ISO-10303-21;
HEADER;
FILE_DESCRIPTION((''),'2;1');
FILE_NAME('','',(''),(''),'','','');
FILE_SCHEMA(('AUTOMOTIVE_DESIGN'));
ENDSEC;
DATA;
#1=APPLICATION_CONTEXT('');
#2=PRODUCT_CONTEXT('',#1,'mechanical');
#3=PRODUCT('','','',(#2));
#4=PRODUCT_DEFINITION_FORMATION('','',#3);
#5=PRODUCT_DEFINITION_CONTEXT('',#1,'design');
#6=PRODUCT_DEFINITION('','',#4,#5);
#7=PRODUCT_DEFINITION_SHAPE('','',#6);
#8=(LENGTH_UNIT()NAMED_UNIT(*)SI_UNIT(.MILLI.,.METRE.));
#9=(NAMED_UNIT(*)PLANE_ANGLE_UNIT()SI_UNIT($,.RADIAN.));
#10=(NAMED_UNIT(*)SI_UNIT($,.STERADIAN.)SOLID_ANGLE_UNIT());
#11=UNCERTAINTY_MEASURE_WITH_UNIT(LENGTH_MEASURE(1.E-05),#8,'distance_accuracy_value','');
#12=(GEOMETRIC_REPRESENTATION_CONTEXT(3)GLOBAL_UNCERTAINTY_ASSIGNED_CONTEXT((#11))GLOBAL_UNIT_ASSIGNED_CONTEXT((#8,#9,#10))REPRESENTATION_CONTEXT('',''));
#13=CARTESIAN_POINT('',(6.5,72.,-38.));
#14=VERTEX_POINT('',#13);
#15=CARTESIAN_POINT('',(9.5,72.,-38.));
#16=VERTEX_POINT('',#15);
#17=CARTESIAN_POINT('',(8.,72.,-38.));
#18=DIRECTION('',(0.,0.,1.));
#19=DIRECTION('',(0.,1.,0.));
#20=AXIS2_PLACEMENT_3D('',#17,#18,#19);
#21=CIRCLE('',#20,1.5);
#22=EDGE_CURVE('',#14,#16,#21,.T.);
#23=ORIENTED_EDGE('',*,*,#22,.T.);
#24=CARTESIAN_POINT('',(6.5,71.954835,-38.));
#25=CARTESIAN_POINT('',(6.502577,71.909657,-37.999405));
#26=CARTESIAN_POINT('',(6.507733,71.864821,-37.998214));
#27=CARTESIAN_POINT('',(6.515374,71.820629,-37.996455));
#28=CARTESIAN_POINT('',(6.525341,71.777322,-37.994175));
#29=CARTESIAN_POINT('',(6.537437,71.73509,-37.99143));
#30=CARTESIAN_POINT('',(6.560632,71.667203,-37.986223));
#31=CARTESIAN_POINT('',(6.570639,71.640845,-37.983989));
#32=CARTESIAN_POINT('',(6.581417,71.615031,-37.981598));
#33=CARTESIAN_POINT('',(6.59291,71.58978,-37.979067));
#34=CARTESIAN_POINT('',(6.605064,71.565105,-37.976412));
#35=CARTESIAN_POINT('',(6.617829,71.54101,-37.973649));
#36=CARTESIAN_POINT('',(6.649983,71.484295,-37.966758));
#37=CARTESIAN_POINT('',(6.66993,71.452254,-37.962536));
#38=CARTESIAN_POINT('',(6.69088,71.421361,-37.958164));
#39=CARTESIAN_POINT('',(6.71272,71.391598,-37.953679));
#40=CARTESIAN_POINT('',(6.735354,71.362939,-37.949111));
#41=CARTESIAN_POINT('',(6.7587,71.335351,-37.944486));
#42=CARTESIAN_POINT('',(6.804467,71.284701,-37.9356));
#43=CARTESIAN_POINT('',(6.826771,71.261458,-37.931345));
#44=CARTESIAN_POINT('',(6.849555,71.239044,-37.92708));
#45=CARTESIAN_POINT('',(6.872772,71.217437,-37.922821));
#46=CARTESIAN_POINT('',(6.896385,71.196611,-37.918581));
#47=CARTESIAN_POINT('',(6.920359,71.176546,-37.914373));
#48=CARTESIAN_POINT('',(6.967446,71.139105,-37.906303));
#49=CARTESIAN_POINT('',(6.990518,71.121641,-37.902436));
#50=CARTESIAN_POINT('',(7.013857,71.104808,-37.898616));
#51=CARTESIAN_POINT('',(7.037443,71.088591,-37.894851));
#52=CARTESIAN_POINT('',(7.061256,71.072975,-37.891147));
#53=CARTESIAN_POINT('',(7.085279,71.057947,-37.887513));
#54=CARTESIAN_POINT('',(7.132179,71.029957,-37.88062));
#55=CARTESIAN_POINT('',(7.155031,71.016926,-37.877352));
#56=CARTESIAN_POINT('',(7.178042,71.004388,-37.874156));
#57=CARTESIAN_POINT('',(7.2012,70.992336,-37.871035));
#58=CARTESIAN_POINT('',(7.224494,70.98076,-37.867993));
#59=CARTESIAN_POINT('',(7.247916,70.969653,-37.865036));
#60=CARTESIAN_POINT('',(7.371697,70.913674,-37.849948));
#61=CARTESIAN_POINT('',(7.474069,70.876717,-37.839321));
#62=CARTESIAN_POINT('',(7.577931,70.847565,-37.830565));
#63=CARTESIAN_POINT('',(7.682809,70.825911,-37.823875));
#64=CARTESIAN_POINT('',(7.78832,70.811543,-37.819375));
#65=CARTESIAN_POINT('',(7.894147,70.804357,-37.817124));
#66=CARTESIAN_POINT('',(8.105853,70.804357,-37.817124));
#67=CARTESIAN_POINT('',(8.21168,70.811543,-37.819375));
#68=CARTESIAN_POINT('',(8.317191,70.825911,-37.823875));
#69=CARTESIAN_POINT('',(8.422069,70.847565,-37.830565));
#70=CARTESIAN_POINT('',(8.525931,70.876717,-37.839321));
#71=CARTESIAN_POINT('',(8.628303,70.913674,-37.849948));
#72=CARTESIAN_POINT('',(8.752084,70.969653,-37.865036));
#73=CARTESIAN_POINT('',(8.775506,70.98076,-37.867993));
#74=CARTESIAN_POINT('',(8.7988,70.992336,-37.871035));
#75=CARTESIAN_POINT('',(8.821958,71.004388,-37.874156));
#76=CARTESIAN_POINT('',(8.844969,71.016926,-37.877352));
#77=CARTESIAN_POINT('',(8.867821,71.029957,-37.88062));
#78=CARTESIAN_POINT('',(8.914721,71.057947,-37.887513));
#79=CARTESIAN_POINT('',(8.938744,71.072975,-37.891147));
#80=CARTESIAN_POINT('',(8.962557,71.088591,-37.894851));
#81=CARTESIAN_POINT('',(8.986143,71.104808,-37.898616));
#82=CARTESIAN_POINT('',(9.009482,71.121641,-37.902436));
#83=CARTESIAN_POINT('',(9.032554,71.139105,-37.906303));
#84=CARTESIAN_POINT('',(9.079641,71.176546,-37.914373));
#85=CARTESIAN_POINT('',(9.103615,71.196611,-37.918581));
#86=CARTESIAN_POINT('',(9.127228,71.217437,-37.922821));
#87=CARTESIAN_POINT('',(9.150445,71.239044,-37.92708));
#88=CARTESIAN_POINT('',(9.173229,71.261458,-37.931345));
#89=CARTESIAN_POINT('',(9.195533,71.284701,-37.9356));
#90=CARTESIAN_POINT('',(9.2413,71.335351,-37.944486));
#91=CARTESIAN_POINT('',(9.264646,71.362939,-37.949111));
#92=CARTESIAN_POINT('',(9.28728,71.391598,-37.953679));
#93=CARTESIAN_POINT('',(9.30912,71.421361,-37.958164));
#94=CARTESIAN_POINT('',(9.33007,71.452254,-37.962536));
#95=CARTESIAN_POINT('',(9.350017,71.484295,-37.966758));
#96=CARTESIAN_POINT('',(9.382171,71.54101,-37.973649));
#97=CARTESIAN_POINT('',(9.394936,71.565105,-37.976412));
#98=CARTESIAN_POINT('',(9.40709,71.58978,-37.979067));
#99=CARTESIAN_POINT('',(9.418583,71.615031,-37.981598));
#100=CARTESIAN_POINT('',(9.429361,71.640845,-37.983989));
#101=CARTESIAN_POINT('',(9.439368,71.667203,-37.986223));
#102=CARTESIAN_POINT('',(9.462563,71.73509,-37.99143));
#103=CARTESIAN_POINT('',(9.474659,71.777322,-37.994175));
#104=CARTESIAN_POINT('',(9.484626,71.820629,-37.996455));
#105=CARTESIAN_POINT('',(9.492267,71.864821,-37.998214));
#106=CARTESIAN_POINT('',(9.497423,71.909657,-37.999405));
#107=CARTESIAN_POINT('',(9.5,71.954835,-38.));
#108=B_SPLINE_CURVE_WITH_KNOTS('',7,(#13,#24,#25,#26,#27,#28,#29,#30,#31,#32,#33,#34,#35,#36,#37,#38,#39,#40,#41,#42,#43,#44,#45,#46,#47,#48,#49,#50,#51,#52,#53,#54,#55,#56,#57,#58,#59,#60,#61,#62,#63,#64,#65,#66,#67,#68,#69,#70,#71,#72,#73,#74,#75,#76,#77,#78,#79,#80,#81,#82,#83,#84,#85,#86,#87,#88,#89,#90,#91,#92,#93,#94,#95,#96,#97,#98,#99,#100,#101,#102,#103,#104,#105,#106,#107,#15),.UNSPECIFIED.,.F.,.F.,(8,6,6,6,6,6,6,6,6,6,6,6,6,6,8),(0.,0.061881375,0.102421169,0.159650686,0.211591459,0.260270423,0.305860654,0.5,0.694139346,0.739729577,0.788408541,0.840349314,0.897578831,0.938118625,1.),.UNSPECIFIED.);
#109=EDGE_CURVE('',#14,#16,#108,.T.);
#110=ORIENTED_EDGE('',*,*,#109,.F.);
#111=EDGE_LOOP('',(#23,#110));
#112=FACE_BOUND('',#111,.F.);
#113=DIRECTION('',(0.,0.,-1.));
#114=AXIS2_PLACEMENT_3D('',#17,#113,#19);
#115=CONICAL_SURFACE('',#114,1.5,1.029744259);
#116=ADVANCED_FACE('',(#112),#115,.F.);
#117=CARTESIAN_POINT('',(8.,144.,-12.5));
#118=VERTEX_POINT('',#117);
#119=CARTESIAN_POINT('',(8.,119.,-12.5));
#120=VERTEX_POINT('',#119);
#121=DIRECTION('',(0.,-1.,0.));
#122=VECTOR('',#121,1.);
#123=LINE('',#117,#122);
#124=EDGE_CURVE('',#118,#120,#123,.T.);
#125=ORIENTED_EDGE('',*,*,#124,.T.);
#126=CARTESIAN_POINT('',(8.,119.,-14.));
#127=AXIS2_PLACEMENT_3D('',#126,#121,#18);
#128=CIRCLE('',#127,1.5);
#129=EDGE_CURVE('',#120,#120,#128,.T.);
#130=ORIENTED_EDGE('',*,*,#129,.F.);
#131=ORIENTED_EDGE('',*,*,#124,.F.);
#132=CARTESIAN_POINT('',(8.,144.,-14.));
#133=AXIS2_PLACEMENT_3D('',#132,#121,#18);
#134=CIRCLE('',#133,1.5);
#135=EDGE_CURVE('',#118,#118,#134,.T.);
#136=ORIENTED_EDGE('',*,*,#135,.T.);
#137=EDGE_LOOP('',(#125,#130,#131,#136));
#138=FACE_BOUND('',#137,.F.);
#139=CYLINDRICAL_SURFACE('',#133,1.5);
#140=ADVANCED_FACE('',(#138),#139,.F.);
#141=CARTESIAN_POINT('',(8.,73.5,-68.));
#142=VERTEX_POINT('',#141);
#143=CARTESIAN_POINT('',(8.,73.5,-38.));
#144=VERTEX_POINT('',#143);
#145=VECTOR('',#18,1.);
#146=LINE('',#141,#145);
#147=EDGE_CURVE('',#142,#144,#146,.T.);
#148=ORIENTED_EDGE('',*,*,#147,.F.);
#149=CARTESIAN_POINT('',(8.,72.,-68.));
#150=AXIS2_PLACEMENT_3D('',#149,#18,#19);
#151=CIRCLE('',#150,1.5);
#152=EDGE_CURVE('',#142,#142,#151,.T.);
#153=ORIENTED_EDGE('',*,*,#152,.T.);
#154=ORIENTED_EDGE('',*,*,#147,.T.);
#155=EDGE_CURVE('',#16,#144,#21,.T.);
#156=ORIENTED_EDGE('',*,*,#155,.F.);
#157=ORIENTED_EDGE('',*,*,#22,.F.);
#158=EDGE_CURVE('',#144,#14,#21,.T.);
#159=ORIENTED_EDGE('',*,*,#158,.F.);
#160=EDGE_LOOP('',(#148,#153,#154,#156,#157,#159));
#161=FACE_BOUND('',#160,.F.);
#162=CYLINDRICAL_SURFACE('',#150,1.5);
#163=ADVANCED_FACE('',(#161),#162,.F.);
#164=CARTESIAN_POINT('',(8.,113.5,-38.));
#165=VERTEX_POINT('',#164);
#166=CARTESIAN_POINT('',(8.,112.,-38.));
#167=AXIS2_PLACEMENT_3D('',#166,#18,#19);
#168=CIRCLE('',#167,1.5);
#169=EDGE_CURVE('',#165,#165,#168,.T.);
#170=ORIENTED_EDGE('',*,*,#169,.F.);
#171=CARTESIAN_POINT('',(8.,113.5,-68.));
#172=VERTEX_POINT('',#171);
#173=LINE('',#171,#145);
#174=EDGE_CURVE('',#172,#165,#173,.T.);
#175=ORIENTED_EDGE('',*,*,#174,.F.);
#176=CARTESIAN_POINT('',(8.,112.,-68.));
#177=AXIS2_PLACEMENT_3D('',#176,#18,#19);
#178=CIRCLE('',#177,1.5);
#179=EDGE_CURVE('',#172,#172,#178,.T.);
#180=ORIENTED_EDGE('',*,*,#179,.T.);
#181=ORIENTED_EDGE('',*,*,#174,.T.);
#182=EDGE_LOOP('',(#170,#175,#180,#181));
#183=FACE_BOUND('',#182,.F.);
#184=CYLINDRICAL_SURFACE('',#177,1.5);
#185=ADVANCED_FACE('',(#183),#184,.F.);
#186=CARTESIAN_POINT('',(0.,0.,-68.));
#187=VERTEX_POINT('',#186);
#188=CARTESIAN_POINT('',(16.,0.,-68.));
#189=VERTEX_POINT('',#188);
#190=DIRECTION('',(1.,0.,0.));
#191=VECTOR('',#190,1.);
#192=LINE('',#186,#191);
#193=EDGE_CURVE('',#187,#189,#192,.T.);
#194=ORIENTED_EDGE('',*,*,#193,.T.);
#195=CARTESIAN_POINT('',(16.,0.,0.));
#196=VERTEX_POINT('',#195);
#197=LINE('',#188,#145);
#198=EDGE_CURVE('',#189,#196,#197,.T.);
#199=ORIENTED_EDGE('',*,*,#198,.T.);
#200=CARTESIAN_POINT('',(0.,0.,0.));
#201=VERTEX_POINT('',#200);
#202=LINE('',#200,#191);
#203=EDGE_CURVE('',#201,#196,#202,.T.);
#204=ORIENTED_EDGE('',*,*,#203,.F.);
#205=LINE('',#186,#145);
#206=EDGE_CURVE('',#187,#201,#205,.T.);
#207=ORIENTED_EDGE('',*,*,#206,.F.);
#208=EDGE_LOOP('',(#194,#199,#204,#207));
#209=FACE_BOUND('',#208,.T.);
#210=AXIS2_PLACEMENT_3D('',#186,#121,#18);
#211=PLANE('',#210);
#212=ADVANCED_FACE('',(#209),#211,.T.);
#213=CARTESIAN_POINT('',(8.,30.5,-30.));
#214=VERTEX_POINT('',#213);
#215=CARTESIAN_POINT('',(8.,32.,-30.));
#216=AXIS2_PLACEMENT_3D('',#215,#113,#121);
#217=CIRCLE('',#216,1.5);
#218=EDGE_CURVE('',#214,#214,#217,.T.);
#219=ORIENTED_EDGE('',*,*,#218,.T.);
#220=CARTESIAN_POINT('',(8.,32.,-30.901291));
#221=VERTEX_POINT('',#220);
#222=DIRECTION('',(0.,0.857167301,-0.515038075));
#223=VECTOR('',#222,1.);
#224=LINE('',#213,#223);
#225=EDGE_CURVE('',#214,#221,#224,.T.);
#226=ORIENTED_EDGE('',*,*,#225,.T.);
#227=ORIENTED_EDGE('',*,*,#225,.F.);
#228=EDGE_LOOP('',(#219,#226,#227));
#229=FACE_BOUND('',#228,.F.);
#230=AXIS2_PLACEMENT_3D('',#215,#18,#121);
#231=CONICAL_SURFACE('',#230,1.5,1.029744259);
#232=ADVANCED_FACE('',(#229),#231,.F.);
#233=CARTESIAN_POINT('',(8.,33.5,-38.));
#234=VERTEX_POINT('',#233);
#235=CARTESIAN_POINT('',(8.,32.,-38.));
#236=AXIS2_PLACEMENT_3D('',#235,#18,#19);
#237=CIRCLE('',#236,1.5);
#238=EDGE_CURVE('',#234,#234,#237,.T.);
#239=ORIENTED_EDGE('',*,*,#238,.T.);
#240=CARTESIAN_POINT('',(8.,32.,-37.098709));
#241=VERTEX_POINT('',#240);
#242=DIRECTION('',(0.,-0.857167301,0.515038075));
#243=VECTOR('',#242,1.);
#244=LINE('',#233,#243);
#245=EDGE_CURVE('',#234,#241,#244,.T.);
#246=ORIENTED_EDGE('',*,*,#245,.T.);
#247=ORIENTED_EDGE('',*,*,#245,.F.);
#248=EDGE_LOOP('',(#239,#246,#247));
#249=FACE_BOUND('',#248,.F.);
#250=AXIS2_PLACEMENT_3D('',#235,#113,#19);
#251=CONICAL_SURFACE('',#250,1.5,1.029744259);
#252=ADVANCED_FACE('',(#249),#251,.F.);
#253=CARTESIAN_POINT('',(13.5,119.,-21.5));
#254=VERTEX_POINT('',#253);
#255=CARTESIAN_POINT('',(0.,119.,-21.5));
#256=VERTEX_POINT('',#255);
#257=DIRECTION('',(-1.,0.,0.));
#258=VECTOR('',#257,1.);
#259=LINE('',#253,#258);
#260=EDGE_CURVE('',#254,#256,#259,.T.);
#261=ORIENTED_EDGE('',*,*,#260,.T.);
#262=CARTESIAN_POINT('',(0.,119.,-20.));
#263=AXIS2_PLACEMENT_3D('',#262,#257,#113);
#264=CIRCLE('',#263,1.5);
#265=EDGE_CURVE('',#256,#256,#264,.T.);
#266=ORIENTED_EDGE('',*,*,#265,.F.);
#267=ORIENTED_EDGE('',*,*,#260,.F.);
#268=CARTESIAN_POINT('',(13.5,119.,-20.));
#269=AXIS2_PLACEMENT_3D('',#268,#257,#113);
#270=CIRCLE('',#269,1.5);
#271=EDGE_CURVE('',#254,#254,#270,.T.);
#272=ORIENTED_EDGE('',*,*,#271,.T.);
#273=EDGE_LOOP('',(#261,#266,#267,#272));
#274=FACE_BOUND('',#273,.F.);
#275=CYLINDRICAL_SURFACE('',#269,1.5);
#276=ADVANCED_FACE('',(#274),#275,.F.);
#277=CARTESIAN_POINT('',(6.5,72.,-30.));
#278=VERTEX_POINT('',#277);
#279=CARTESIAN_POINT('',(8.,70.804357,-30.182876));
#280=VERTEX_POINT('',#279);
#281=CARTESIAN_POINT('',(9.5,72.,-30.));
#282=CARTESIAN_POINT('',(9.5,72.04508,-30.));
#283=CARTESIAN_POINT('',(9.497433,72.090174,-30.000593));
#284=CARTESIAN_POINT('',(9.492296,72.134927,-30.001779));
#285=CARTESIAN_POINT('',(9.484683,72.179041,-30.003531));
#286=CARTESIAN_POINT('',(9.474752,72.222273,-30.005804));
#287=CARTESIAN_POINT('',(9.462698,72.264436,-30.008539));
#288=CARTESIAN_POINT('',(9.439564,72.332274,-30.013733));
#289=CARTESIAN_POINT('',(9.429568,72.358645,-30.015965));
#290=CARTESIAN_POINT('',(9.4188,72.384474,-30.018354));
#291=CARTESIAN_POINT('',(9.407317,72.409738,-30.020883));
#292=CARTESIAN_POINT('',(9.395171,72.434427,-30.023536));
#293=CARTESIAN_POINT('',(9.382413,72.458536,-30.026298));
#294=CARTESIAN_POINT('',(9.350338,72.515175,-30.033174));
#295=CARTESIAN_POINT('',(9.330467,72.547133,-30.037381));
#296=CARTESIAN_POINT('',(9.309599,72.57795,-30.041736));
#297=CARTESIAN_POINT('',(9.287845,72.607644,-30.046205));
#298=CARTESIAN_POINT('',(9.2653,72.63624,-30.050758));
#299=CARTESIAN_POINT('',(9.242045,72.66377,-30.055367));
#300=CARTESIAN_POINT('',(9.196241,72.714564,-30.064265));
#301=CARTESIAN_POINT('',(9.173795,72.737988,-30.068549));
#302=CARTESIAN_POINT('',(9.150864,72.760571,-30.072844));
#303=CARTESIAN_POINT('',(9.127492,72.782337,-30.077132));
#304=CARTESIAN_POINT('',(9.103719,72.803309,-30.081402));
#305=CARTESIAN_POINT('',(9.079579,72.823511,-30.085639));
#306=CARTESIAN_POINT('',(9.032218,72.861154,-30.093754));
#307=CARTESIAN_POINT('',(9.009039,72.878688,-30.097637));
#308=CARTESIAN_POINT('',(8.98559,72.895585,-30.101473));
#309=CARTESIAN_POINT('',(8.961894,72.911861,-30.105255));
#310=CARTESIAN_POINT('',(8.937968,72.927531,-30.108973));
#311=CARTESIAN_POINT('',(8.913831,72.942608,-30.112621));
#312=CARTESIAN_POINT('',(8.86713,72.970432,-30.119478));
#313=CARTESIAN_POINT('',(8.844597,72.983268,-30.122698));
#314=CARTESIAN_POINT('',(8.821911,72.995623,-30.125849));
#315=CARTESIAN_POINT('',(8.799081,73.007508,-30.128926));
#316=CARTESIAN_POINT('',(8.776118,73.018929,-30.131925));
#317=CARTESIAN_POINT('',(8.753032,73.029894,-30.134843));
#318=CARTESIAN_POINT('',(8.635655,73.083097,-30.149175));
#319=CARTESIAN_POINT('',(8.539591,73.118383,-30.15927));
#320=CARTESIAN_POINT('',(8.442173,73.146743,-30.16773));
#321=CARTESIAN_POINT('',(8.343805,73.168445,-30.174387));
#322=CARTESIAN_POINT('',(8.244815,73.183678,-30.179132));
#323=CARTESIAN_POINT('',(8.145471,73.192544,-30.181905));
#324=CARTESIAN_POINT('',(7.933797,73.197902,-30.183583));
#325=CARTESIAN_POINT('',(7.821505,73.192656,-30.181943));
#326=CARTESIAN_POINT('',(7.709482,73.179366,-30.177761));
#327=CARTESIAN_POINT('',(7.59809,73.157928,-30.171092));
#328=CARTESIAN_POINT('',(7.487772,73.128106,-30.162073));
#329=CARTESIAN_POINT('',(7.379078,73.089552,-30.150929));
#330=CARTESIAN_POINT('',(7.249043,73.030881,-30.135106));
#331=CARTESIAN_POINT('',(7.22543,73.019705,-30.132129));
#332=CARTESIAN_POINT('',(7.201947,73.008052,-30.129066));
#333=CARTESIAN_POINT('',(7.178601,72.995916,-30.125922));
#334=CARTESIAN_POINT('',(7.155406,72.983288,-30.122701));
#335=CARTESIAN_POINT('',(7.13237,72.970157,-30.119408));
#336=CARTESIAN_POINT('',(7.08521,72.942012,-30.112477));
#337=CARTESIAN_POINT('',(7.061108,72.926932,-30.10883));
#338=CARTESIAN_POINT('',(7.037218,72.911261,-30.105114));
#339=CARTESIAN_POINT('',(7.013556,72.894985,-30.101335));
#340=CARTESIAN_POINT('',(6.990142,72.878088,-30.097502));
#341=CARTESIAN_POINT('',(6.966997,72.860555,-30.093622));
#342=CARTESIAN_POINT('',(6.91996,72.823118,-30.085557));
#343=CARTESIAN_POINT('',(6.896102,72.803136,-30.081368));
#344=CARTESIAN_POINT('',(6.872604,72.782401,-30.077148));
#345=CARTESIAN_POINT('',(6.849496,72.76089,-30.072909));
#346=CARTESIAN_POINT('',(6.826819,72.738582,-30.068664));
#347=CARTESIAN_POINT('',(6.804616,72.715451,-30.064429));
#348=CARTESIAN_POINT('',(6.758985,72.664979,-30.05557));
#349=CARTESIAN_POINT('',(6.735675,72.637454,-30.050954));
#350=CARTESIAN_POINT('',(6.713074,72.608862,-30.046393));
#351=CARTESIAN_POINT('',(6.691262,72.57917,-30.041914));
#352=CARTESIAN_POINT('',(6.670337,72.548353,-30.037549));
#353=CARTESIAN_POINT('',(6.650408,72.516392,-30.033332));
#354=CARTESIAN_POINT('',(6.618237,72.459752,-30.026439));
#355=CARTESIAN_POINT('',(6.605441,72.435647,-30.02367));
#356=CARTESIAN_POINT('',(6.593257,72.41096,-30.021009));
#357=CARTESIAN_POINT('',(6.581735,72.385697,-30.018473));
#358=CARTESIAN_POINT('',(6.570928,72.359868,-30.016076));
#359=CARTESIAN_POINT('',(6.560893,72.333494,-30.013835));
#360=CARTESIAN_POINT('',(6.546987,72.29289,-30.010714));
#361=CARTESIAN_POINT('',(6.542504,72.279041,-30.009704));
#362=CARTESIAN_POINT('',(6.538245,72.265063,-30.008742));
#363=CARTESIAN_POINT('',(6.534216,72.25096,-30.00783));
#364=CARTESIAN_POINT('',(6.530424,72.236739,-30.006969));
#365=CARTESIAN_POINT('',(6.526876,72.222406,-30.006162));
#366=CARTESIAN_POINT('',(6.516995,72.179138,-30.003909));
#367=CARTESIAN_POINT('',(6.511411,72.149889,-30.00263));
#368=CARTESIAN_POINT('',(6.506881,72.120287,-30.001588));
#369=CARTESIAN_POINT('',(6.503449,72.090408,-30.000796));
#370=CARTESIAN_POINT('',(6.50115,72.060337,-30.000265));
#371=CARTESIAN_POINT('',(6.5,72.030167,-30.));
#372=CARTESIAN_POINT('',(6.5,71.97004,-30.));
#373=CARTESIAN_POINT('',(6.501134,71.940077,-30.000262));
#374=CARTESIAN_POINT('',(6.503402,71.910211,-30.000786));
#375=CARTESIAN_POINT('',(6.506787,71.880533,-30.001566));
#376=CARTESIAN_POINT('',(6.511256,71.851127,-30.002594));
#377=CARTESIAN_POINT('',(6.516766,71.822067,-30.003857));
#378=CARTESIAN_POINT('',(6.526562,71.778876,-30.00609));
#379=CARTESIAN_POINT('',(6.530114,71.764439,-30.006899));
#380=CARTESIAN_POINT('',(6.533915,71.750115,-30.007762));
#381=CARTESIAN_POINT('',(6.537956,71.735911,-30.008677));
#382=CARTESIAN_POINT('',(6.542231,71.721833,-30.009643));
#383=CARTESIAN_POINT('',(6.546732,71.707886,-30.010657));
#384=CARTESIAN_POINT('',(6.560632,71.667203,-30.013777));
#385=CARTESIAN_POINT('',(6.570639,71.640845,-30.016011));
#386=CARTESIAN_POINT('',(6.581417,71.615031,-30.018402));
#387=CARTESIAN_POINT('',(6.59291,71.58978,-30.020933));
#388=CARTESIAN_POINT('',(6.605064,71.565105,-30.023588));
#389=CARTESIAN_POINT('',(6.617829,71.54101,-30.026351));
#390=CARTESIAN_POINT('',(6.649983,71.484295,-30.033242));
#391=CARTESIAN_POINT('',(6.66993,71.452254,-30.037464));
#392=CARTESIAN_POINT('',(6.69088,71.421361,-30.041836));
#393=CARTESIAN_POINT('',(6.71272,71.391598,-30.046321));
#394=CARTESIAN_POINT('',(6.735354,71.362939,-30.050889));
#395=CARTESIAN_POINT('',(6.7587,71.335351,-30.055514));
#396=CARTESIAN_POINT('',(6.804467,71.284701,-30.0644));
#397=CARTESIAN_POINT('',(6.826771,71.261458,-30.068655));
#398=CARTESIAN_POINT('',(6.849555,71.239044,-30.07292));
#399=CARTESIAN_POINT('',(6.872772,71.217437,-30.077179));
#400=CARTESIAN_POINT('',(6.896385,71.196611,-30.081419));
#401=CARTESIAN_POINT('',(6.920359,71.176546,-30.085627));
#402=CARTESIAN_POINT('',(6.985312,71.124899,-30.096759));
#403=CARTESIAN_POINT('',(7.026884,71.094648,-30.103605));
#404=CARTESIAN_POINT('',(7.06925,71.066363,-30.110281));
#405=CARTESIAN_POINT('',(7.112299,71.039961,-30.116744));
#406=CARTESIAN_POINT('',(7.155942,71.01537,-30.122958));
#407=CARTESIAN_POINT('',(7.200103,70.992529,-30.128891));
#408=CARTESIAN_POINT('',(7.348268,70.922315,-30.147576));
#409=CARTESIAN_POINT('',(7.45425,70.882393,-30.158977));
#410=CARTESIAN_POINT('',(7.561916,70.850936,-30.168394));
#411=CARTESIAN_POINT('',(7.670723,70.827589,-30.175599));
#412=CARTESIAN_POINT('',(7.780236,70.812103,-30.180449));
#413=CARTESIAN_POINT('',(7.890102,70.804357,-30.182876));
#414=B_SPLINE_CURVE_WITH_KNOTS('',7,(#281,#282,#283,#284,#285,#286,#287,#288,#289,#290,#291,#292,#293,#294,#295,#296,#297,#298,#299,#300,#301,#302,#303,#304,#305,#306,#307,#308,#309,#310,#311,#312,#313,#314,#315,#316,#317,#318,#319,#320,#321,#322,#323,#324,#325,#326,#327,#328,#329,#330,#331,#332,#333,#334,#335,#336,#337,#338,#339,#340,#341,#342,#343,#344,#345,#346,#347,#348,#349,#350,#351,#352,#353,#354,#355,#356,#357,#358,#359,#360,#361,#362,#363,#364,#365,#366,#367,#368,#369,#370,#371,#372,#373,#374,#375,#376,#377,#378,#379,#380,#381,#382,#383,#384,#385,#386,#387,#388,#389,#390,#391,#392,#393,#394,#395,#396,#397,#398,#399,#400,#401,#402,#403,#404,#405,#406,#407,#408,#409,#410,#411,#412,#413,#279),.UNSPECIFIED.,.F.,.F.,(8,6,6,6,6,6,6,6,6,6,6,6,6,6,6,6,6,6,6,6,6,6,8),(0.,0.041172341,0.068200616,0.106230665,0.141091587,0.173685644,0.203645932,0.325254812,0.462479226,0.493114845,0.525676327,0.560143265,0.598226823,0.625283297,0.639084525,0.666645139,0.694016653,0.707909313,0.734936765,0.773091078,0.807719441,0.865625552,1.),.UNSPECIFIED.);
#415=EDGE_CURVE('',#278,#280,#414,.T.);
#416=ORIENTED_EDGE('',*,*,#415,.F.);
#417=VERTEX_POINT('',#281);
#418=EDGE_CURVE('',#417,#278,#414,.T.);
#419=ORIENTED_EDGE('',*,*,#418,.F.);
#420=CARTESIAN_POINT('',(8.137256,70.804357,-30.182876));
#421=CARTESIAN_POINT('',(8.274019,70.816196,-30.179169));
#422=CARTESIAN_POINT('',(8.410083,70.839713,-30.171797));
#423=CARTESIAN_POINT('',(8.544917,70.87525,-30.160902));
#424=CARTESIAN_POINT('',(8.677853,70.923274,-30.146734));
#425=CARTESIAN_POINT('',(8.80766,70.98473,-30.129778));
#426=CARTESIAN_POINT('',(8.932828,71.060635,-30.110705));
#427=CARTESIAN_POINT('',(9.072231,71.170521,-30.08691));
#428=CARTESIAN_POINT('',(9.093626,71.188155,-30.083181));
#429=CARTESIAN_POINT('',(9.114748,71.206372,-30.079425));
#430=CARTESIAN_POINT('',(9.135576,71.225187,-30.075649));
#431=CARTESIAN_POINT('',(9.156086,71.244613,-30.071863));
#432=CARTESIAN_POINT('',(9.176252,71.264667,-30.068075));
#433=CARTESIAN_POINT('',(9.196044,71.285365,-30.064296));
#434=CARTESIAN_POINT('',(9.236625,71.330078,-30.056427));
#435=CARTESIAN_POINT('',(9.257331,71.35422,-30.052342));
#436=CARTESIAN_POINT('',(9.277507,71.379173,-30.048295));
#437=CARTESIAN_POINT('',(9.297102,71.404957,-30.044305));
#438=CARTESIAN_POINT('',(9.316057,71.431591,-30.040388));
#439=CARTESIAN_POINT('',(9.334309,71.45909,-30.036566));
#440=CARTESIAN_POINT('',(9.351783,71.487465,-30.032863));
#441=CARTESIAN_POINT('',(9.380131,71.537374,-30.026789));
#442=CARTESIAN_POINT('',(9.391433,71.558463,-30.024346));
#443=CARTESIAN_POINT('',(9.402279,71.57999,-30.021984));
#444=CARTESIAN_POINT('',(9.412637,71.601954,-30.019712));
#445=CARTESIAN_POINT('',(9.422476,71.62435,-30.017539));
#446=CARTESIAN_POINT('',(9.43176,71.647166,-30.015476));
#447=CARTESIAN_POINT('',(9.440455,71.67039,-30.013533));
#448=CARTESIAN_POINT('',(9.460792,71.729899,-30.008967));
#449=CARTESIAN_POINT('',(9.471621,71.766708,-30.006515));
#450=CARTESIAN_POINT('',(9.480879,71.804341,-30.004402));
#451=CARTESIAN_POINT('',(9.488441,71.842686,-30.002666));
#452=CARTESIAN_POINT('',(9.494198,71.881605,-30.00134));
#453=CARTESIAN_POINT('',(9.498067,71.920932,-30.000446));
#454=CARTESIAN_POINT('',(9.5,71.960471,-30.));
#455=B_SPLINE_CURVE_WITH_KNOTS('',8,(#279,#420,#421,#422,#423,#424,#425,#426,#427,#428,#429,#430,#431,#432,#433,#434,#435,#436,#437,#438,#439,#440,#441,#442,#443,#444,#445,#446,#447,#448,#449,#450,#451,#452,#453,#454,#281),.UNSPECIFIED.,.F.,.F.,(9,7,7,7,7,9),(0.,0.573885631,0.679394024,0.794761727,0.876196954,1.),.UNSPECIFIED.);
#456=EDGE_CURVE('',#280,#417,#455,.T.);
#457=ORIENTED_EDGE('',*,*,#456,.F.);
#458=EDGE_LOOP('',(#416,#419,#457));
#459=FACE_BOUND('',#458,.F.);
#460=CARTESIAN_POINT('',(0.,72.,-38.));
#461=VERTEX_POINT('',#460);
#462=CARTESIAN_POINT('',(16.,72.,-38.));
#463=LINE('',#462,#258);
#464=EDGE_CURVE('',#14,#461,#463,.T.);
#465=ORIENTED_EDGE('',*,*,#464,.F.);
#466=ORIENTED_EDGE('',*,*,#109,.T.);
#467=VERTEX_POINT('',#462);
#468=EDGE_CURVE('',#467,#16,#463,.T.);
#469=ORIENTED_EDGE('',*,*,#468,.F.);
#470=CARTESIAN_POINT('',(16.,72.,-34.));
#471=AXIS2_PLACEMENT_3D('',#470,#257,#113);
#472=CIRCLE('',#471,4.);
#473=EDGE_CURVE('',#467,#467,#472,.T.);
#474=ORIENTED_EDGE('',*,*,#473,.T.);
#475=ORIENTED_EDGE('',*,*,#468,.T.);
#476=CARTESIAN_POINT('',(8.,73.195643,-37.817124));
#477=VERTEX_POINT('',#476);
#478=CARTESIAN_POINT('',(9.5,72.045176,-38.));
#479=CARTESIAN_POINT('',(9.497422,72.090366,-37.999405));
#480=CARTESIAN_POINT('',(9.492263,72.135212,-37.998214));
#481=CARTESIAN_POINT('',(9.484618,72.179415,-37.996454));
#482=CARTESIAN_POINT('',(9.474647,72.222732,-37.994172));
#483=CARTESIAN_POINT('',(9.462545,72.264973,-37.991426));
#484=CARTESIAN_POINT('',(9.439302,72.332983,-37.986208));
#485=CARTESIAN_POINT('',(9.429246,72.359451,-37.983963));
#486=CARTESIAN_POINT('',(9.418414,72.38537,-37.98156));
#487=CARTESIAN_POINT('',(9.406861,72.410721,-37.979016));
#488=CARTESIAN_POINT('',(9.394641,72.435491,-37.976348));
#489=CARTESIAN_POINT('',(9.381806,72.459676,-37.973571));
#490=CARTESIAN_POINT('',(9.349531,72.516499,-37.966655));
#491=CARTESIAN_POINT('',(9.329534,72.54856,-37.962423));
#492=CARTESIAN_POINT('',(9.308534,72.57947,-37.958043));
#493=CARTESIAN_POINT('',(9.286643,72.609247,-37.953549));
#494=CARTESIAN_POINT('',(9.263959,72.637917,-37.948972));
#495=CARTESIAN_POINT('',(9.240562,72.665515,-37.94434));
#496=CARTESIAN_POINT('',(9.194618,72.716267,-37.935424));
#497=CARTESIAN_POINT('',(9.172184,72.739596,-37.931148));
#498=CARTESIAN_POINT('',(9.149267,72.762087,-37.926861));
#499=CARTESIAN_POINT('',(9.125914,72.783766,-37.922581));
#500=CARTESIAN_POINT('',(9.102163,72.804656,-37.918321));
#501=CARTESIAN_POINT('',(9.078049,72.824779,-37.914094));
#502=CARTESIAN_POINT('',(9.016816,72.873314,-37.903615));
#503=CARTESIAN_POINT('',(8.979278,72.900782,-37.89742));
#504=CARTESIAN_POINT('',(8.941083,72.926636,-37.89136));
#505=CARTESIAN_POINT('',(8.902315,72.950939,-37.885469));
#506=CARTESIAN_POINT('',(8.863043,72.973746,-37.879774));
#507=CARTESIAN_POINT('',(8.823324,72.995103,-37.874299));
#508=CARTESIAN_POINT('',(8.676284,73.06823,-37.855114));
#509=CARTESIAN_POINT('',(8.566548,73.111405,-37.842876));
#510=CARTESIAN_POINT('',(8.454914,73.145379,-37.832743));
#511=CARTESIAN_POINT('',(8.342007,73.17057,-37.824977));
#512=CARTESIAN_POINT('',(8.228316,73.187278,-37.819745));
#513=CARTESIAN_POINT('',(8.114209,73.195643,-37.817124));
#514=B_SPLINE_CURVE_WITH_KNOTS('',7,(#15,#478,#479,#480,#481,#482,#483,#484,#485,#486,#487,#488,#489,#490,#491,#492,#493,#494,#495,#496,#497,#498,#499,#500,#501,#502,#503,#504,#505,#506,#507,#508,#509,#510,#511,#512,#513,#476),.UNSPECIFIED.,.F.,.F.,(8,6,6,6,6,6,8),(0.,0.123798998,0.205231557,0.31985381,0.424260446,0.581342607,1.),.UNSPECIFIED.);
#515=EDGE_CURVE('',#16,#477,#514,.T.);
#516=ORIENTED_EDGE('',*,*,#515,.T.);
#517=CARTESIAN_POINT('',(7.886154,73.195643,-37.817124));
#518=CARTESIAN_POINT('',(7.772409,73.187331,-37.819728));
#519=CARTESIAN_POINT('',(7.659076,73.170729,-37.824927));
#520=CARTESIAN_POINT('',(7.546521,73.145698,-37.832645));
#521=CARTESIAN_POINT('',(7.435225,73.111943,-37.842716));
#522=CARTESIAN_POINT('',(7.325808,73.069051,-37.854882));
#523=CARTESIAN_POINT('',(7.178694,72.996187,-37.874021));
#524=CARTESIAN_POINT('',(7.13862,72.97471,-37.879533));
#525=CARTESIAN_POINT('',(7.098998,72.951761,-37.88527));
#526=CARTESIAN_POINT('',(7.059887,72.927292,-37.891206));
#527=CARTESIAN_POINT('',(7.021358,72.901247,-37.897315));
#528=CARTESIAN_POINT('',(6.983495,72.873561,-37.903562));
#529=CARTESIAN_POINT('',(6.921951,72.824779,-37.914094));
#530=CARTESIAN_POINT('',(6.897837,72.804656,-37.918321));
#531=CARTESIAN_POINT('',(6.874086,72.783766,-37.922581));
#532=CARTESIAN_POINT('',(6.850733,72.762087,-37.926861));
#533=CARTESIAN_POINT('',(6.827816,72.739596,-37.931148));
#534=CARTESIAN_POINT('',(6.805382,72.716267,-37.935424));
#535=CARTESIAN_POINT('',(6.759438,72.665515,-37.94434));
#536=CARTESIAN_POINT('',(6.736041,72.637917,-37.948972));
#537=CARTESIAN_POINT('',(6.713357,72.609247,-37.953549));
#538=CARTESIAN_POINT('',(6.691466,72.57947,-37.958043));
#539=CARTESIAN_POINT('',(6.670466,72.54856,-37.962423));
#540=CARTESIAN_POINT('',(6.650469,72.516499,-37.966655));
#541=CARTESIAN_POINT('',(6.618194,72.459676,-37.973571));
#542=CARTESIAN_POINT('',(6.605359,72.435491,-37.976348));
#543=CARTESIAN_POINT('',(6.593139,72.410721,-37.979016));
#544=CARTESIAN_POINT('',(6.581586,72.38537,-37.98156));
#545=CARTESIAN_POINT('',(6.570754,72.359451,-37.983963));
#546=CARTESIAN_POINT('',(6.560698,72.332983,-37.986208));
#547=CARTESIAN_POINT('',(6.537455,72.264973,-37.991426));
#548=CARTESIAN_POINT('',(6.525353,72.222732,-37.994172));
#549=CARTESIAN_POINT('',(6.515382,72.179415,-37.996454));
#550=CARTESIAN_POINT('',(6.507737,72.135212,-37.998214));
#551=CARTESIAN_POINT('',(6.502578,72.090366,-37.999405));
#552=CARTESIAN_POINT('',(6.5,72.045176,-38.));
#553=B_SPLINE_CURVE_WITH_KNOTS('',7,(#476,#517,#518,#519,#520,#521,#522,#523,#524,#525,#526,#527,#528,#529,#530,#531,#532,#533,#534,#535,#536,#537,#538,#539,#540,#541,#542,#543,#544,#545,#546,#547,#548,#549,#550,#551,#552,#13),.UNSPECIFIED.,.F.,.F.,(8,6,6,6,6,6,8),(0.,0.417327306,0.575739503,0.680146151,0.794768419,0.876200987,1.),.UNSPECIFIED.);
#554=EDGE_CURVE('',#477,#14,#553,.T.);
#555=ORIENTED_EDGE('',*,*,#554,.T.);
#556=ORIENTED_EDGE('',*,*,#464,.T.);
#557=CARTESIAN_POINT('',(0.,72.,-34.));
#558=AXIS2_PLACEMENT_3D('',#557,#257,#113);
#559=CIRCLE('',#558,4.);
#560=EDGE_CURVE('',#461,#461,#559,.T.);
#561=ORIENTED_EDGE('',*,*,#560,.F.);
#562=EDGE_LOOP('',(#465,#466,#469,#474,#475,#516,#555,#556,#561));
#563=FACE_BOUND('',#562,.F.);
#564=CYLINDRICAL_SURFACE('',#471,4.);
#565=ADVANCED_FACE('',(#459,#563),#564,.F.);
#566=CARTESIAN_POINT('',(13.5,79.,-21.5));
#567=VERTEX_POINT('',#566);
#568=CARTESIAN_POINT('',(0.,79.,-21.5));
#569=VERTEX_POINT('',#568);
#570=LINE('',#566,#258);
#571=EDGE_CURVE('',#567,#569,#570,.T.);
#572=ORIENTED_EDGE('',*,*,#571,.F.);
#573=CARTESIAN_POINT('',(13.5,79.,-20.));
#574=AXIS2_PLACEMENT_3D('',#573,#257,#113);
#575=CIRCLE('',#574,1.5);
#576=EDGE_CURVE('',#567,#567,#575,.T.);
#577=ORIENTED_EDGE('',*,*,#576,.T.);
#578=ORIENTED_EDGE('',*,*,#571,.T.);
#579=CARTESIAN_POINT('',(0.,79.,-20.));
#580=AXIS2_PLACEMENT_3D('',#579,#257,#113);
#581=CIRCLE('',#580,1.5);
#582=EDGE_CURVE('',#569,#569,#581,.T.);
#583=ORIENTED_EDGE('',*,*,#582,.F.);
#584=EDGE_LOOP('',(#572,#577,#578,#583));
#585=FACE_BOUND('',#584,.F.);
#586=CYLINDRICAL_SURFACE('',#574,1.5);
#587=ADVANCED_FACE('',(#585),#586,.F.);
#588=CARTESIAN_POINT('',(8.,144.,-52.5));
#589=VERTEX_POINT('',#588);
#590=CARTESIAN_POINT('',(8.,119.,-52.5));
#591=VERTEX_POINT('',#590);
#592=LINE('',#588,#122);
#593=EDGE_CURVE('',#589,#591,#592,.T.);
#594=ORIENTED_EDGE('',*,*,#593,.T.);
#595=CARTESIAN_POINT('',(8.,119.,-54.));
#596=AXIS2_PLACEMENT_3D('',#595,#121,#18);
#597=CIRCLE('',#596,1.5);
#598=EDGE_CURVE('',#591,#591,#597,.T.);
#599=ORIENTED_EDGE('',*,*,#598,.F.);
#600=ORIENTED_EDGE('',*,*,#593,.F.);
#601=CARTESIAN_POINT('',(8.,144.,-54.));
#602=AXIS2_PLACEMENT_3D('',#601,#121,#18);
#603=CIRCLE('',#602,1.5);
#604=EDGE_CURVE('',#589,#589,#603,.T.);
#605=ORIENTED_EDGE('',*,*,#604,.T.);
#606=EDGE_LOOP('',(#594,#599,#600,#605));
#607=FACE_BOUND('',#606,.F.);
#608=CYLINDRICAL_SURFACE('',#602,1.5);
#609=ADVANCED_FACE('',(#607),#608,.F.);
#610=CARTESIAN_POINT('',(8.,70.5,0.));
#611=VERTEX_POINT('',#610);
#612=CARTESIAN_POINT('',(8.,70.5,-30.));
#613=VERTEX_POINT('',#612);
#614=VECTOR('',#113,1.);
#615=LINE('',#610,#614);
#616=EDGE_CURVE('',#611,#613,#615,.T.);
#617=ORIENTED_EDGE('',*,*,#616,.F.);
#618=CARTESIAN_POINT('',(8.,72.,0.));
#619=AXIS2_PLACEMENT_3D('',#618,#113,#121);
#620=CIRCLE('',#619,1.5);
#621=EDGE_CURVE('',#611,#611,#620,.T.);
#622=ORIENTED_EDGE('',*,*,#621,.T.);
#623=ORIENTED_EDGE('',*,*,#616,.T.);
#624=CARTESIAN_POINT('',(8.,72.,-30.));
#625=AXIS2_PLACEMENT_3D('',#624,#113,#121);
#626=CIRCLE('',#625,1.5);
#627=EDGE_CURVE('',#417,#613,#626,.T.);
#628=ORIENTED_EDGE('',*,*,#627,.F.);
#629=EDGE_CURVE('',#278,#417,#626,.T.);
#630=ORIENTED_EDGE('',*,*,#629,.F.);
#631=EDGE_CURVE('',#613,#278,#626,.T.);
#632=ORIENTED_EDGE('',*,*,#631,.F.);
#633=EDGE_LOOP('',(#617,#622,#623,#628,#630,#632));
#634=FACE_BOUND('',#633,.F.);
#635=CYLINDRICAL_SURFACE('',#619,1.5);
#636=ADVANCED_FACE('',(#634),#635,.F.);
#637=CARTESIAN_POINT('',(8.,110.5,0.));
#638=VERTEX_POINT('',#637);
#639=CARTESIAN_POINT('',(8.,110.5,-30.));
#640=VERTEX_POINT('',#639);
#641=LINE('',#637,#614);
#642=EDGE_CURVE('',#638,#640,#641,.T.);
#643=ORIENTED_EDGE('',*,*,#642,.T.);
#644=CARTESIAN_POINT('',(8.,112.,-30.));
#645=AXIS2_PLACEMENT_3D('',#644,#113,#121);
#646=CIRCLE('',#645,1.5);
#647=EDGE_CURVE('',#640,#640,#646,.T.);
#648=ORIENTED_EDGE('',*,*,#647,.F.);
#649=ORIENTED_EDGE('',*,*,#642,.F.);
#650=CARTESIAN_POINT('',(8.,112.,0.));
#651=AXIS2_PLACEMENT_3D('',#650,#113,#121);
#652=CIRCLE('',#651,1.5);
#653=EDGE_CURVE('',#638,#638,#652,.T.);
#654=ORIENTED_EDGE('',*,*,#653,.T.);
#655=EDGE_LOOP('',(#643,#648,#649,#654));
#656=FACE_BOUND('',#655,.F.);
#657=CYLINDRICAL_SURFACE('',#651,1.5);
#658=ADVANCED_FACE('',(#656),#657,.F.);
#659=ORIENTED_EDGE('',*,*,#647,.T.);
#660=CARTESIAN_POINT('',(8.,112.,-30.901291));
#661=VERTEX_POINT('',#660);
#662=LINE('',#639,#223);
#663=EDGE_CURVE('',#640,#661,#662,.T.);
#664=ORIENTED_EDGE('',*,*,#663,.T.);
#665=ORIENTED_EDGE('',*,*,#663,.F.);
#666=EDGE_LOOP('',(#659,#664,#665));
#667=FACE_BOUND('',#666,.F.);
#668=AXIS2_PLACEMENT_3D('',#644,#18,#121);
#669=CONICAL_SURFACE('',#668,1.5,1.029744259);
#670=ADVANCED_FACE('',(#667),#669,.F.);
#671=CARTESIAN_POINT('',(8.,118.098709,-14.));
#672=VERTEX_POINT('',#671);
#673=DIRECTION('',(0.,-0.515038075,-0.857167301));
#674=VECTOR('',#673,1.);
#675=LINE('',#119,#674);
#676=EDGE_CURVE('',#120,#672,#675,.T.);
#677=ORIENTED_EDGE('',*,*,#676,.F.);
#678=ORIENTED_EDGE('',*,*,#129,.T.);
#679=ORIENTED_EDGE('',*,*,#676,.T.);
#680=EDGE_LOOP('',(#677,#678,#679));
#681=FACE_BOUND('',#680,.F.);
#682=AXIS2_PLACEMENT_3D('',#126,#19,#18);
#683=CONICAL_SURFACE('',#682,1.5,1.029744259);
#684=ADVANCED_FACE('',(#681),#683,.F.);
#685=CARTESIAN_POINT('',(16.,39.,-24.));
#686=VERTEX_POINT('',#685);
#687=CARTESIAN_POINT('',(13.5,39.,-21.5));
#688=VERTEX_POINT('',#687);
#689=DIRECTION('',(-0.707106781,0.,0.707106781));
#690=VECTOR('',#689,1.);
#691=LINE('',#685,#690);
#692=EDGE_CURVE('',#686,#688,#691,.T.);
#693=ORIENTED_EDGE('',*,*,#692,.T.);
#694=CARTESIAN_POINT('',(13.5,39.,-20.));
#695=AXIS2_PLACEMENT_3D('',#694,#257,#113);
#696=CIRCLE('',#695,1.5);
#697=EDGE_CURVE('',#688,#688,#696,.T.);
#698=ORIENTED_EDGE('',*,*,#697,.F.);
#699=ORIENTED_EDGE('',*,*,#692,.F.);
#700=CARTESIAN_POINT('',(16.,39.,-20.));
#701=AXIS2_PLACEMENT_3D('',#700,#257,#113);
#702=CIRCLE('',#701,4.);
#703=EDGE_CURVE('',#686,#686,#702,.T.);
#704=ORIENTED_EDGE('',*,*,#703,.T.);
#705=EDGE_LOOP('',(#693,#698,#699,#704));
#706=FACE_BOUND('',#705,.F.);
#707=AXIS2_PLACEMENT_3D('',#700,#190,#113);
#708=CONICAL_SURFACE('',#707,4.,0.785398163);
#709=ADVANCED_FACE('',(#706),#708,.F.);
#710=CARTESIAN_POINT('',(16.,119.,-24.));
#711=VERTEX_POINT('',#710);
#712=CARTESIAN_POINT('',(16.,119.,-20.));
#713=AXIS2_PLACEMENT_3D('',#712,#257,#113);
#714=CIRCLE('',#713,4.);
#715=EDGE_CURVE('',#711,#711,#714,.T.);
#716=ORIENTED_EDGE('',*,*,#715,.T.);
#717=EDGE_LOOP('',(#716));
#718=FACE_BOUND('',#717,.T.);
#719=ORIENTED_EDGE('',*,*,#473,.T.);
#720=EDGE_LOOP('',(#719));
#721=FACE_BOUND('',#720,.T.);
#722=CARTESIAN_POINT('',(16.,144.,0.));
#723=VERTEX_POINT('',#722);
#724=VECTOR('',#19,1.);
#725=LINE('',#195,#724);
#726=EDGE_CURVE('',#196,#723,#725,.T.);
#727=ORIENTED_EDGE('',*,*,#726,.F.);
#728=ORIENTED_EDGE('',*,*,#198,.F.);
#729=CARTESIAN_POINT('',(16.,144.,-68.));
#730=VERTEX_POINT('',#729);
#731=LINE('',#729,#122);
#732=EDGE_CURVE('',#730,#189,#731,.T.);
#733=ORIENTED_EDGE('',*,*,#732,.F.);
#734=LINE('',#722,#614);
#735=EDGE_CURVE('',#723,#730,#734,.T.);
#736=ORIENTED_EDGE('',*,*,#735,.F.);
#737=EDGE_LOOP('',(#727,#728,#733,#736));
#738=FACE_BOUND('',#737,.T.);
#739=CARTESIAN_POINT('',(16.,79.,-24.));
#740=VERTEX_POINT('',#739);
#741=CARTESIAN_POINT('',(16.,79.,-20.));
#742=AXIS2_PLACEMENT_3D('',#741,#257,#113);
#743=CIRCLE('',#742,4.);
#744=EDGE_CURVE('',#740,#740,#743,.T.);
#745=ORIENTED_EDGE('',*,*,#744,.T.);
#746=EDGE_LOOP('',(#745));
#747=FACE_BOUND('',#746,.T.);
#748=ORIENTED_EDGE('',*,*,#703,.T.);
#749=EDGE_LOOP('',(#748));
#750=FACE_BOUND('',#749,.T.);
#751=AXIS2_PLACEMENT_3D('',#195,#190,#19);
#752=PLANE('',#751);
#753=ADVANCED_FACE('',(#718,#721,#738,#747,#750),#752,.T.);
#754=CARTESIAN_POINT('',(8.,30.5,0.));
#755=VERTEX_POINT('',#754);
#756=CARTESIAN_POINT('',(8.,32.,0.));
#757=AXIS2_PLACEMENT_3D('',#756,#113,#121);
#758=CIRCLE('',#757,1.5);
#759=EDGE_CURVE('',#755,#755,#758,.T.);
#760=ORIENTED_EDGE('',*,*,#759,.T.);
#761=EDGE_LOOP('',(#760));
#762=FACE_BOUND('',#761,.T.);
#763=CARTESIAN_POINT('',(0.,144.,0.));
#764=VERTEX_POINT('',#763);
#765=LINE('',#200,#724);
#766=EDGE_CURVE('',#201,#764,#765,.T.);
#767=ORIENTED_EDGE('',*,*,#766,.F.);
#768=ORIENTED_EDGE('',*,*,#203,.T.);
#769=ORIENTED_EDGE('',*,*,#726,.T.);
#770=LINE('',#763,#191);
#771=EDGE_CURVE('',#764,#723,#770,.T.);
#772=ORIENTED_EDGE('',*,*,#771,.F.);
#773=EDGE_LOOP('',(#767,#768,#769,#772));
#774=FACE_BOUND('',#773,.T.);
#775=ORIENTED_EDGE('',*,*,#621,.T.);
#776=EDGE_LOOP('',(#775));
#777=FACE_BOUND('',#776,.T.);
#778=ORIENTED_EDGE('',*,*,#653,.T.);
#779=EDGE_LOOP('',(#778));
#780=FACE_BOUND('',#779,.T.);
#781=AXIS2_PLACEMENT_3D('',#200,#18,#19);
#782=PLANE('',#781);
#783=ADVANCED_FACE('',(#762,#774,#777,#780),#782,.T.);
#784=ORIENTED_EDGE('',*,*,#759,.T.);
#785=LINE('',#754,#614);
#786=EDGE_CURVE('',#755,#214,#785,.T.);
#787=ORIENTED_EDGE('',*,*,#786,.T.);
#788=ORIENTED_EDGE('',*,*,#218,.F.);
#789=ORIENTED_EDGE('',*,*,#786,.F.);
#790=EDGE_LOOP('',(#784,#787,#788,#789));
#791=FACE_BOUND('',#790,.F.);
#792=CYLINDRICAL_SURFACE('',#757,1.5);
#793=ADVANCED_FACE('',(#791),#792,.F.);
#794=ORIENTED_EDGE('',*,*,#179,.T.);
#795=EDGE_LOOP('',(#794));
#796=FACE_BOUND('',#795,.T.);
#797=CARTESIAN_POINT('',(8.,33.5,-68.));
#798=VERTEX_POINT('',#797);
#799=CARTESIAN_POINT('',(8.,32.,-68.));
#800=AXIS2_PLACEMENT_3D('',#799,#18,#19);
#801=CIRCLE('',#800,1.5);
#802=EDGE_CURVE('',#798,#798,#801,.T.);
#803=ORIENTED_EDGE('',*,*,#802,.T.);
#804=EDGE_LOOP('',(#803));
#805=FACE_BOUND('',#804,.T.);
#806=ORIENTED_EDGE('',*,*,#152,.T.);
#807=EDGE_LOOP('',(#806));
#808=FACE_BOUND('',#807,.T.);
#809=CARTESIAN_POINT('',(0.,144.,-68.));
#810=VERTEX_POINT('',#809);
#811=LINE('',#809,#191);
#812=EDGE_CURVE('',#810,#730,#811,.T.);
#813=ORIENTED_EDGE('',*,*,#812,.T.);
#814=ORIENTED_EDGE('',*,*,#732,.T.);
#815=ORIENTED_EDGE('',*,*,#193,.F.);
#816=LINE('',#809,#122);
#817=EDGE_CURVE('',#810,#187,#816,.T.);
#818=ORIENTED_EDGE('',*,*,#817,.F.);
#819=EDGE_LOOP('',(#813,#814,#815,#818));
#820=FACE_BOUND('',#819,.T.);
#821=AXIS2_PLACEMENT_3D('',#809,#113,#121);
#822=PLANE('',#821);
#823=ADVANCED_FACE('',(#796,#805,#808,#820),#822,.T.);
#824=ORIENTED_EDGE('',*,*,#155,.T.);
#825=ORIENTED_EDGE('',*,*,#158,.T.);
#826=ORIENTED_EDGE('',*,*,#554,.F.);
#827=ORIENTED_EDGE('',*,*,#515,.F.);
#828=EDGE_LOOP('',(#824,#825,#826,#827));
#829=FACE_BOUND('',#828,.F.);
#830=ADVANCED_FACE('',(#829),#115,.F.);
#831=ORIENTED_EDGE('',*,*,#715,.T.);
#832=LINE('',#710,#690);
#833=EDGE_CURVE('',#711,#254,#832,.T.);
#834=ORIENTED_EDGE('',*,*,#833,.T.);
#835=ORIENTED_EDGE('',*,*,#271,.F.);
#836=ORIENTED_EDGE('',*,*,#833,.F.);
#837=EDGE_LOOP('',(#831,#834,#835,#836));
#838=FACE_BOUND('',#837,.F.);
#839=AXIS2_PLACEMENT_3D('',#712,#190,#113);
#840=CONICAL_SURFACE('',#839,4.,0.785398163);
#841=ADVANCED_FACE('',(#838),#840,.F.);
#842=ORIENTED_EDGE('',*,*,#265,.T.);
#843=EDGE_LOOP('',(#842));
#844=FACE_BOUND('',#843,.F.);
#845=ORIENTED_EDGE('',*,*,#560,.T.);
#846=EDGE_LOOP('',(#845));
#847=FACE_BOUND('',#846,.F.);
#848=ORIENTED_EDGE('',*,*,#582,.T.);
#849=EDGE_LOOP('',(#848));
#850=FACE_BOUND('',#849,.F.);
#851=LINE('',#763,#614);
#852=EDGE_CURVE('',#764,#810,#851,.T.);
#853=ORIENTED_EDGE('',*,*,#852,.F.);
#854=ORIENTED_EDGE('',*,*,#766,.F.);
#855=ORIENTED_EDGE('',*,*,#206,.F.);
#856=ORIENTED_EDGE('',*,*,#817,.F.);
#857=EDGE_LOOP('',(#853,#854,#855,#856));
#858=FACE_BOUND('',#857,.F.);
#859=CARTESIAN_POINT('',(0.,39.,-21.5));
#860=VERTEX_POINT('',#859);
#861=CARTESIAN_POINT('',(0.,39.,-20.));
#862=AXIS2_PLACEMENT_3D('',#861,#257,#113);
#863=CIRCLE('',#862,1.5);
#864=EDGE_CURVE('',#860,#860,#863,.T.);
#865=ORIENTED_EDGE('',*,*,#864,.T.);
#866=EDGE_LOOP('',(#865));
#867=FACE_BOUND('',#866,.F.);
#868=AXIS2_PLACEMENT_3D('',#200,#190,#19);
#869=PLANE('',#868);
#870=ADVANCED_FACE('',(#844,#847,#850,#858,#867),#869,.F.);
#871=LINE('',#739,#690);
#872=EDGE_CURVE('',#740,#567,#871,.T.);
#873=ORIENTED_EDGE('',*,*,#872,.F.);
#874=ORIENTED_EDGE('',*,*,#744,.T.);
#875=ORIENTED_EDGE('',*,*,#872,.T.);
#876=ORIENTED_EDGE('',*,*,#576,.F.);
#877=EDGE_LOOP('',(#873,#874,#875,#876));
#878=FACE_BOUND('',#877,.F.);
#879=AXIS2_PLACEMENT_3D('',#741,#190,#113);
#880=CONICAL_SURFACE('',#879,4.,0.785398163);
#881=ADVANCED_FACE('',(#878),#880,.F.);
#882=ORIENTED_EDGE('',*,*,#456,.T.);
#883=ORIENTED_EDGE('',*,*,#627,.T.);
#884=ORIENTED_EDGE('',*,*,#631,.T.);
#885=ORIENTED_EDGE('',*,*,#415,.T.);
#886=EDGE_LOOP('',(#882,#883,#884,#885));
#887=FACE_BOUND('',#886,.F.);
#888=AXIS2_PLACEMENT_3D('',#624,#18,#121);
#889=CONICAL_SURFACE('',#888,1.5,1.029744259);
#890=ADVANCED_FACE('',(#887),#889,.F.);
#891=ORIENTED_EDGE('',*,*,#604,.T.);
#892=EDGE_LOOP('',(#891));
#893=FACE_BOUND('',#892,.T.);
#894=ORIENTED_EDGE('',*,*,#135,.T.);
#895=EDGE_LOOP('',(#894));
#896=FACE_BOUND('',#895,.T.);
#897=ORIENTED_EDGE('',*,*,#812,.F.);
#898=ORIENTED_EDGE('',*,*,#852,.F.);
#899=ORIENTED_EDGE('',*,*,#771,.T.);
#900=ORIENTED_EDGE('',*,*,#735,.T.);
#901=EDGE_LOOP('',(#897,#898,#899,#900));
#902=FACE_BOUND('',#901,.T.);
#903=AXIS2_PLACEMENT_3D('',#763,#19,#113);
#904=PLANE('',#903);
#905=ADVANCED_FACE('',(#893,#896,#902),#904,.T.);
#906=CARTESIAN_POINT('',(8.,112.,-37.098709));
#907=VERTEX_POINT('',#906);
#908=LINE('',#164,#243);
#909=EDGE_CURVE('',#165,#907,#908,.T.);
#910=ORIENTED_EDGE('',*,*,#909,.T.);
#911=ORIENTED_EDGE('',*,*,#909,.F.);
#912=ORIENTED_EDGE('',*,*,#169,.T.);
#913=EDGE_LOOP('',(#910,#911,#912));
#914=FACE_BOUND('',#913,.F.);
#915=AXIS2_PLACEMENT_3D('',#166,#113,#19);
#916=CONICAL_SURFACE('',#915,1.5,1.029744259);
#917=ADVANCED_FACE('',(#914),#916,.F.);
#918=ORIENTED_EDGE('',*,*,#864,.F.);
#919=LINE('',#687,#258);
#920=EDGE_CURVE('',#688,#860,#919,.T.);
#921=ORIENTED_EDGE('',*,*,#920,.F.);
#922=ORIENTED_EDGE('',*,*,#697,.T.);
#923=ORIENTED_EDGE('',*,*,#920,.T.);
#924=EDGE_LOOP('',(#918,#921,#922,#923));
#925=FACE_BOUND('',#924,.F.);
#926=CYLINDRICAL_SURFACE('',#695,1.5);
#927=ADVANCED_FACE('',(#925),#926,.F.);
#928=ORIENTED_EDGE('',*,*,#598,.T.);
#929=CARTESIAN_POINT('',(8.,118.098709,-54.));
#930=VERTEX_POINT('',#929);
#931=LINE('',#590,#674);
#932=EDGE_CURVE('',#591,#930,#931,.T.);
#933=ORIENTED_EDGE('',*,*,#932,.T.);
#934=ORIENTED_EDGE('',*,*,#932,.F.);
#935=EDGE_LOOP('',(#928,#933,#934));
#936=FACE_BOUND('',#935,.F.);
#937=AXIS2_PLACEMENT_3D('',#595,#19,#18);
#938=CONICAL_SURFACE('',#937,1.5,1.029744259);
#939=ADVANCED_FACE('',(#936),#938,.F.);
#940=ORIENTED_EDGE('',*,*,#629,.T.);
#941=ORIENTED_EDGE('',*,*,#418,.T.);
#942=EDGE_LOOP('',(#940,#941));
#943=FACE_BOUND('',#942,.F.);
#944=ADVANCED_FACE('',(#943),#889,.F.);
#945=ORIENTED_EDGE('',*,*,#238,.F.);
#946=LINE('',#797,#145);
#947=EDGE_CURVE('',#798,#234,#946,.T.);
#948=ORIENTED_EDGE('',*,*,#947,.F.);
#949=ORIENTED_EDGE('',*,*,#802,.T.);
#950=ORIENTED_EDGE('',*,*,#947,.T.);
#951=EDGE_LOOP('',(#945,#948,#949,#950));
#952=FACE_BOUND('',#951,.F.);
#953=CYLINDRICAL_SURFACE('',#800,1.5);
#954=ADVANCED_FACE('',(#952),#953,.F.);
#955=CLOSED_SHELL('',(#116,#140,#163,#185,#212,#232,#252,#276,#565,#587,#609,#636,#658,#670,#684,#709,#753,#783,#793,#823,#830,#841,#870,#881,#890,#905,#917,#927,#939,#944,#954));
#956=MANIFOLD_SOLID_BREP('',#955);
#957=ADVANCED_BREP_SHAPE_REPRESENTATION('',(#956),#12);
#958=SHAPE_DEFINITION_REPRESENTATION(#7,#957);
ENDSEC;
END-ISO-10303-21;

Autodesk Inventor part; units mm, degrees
ref_plane "YZ Plane" through (0, 0, 0) normal (1, 0, 0) x (0, 1, 0)
ref_plane "XZ Plane" through (0, 0, 0) normal (0, 1, 0) x (-1, 0, 0)
ref_plane "XY Plane" through (0, 0, 0) normal (0, 0, 1) x (1, 0, 0)
sketch "Skizze1" plane through (0, 0, 0) normal (1, 0, 0) x (0, 1, 0)
  line L0 (0, 0) -> (144, 0)
  line L1 (144, 0) -> (144, -68)
  line L2 (144, -68) -> (0, -68)
  line L3 (0, -68) -> (0, 0)
  dimension "d0" = 144
  dimension "d1" = 68
extrude "Extrusion1" add sketch "Skizze1" along normal blind 16
sketch "Skizze2" plane through (0, 0, 0) normal (0, 0, 1) x (1, 0, 0)
  line L0 (0, 0) -> (0, 144) construction
  line L1 (0, 72) -> (16, 72) construction
  line L2 (16, 144) -> (16, 0) construction
  line L3 (0, 144) -> (16, 144) construction
  line L4 (8, 144) -> (8, 0) construction
  line L5 (0, 144) -> (16, 144) construction
  line L6 (0, 0) -> (16, 0) construction
  line L7 (0, 144) -> (16, 144) construction
  line L8 (16, 144) -> (16, 0) construction
  line L9 (16, 0) -> (0, 0) construction
  line L10 (0, 0) -> (0, 144) construction
  line L11 (0, 112) -> (16, 112) construction
  line L12 (0, 32) -> (16, 32) construction
  point P0 (8, 112)
  point P1 (8, 72)
  point P2 (8, 32)
  dimension "d4" = 40
  dimension "d5" = 40
hole "Bohrung1" at (8, 112, 0) at (8, 72, 0) at (8, 32, 0) direction (0, 0, -1) diameter 3 depth 30 tip angle 118
sketch "Skizze3" plane through (0, 144, 0) normal (0, 1, 0) x (1, 0, 0)
  line L0 (0, 0) -> (16, 0)
  line L1 (16, 0) -> (16, 68)
  line L2 (16, 68) -> (0, 68)
  line L3 (0, 68) -> (0, 0)
  line L4 (8, 0) -> (8, 68) construction
  line L5 (0, 68) -> (16, 68) construction
  line L6 (16, 0) -> (16, 68) construction
  line L7 (16, 34) -> (0, 34) construction
  line L8 (0, 68) -> (0, 0) construction
  line L9 (0, 14) -> (16, 14) construction
  line L10 (0, 54) -> (16, 54) construction
  point P0 (8, 14)
  point P1 (8, 54)
  dimension "d13" = 14
  dimension "d22" = 14
hole "Bohrung2" at (8, 144, -14) at (8, 144, -54) direction (0, -1, 0) diameter 3 depth 25 tip angle 118
sketch "Skizze4" plane through (0, 0, -68) normal (0, 0, -1) x (-1, 0, 0)
  line L0 (0, 0) -> (-16, 0) construction
  line L1 (-16, 0) -> (-16, 144) construction
  line L2 (-16, 144) -> (0, 144) construction
  line L3 (0, 144) -> (0, 0) construction
  line L4 (-8, 0) -> (-8, 144) construction
  line L5 (-16, 144) -> (-16, 0) construction
  line L6 (-16, 72) -> (0, 72) construction
  circle A0 centre (-8, 72) radius 1.5 construction
  point P0 (-8, 112)
  point P1 (-8, 32)
  dimension "d23" = 40
  dimension "d24" = 40
hole "Bohrung3" at (8, 72, -68) at (8, 112, -68) at (8, 32, -68) direction (0, 0, 1) diameter 3 depth 30 tip angle 118
sketch "Skizze5" plane through (16, 0, 0) normal (1, 0, 0) x (0, 0, -1)
  line L0 (68, 144) -> (0, 144) construction
  line L1 (0, 144) -> (0, 0) construction
  line L2 (0, 0) -> (68, 0) construction
  line L3 (68, 0) -> (68, 144) construction
  line L4 (0, 144) -> (0, 0) construction
  line L5 (0, 72) -> (68, 72) construction
  circle A0 centre (34, 72) radius 4 construction
  line L6 (20, 119) -> (20, 39) construction
  point P0 (20, 79)
  dimension "d41" = 8
  dimension "d42" = 7
  dimension "d43" = 40
  dimension "d44" = 40
  dimension "d45" = 20
hole "Bohrung4" at (16, 39, -20) at (16, 79, -20) at (16, 119, -20) direction (-1, 0, 0) diameter 3 end through all countersink diameter 8 countersink angle 90
hole "Bohrung5" at (16, 72, -34) direction (-1, 0, 0) diameter 8 end through all
equation "\"d39\" = Stärke"
equation "\"d51\" = Stärke"
equation "\"Biegeradius\" = Stärke"
equation "\"BreiteBiegungsfreistellung\" = Stärke"
equation "\"TiefeBiegungsfreistellung\" = 0.5 * Stärke"
equation "\"GrößeEckenfreistellung\" = 4 * Stärke"
equation "\"MinimalRest\" = 2 * Stärke"
equation "\"Übergangsradius\" = Biegeradius"
equation "\"JacobiRadiusGröße\" = Biegeradius"
equation "\"Abstandsgröße\" = Stärke"
equation "\"Stärke\" = 0.5"
properties part number "licht_200_side_right"
